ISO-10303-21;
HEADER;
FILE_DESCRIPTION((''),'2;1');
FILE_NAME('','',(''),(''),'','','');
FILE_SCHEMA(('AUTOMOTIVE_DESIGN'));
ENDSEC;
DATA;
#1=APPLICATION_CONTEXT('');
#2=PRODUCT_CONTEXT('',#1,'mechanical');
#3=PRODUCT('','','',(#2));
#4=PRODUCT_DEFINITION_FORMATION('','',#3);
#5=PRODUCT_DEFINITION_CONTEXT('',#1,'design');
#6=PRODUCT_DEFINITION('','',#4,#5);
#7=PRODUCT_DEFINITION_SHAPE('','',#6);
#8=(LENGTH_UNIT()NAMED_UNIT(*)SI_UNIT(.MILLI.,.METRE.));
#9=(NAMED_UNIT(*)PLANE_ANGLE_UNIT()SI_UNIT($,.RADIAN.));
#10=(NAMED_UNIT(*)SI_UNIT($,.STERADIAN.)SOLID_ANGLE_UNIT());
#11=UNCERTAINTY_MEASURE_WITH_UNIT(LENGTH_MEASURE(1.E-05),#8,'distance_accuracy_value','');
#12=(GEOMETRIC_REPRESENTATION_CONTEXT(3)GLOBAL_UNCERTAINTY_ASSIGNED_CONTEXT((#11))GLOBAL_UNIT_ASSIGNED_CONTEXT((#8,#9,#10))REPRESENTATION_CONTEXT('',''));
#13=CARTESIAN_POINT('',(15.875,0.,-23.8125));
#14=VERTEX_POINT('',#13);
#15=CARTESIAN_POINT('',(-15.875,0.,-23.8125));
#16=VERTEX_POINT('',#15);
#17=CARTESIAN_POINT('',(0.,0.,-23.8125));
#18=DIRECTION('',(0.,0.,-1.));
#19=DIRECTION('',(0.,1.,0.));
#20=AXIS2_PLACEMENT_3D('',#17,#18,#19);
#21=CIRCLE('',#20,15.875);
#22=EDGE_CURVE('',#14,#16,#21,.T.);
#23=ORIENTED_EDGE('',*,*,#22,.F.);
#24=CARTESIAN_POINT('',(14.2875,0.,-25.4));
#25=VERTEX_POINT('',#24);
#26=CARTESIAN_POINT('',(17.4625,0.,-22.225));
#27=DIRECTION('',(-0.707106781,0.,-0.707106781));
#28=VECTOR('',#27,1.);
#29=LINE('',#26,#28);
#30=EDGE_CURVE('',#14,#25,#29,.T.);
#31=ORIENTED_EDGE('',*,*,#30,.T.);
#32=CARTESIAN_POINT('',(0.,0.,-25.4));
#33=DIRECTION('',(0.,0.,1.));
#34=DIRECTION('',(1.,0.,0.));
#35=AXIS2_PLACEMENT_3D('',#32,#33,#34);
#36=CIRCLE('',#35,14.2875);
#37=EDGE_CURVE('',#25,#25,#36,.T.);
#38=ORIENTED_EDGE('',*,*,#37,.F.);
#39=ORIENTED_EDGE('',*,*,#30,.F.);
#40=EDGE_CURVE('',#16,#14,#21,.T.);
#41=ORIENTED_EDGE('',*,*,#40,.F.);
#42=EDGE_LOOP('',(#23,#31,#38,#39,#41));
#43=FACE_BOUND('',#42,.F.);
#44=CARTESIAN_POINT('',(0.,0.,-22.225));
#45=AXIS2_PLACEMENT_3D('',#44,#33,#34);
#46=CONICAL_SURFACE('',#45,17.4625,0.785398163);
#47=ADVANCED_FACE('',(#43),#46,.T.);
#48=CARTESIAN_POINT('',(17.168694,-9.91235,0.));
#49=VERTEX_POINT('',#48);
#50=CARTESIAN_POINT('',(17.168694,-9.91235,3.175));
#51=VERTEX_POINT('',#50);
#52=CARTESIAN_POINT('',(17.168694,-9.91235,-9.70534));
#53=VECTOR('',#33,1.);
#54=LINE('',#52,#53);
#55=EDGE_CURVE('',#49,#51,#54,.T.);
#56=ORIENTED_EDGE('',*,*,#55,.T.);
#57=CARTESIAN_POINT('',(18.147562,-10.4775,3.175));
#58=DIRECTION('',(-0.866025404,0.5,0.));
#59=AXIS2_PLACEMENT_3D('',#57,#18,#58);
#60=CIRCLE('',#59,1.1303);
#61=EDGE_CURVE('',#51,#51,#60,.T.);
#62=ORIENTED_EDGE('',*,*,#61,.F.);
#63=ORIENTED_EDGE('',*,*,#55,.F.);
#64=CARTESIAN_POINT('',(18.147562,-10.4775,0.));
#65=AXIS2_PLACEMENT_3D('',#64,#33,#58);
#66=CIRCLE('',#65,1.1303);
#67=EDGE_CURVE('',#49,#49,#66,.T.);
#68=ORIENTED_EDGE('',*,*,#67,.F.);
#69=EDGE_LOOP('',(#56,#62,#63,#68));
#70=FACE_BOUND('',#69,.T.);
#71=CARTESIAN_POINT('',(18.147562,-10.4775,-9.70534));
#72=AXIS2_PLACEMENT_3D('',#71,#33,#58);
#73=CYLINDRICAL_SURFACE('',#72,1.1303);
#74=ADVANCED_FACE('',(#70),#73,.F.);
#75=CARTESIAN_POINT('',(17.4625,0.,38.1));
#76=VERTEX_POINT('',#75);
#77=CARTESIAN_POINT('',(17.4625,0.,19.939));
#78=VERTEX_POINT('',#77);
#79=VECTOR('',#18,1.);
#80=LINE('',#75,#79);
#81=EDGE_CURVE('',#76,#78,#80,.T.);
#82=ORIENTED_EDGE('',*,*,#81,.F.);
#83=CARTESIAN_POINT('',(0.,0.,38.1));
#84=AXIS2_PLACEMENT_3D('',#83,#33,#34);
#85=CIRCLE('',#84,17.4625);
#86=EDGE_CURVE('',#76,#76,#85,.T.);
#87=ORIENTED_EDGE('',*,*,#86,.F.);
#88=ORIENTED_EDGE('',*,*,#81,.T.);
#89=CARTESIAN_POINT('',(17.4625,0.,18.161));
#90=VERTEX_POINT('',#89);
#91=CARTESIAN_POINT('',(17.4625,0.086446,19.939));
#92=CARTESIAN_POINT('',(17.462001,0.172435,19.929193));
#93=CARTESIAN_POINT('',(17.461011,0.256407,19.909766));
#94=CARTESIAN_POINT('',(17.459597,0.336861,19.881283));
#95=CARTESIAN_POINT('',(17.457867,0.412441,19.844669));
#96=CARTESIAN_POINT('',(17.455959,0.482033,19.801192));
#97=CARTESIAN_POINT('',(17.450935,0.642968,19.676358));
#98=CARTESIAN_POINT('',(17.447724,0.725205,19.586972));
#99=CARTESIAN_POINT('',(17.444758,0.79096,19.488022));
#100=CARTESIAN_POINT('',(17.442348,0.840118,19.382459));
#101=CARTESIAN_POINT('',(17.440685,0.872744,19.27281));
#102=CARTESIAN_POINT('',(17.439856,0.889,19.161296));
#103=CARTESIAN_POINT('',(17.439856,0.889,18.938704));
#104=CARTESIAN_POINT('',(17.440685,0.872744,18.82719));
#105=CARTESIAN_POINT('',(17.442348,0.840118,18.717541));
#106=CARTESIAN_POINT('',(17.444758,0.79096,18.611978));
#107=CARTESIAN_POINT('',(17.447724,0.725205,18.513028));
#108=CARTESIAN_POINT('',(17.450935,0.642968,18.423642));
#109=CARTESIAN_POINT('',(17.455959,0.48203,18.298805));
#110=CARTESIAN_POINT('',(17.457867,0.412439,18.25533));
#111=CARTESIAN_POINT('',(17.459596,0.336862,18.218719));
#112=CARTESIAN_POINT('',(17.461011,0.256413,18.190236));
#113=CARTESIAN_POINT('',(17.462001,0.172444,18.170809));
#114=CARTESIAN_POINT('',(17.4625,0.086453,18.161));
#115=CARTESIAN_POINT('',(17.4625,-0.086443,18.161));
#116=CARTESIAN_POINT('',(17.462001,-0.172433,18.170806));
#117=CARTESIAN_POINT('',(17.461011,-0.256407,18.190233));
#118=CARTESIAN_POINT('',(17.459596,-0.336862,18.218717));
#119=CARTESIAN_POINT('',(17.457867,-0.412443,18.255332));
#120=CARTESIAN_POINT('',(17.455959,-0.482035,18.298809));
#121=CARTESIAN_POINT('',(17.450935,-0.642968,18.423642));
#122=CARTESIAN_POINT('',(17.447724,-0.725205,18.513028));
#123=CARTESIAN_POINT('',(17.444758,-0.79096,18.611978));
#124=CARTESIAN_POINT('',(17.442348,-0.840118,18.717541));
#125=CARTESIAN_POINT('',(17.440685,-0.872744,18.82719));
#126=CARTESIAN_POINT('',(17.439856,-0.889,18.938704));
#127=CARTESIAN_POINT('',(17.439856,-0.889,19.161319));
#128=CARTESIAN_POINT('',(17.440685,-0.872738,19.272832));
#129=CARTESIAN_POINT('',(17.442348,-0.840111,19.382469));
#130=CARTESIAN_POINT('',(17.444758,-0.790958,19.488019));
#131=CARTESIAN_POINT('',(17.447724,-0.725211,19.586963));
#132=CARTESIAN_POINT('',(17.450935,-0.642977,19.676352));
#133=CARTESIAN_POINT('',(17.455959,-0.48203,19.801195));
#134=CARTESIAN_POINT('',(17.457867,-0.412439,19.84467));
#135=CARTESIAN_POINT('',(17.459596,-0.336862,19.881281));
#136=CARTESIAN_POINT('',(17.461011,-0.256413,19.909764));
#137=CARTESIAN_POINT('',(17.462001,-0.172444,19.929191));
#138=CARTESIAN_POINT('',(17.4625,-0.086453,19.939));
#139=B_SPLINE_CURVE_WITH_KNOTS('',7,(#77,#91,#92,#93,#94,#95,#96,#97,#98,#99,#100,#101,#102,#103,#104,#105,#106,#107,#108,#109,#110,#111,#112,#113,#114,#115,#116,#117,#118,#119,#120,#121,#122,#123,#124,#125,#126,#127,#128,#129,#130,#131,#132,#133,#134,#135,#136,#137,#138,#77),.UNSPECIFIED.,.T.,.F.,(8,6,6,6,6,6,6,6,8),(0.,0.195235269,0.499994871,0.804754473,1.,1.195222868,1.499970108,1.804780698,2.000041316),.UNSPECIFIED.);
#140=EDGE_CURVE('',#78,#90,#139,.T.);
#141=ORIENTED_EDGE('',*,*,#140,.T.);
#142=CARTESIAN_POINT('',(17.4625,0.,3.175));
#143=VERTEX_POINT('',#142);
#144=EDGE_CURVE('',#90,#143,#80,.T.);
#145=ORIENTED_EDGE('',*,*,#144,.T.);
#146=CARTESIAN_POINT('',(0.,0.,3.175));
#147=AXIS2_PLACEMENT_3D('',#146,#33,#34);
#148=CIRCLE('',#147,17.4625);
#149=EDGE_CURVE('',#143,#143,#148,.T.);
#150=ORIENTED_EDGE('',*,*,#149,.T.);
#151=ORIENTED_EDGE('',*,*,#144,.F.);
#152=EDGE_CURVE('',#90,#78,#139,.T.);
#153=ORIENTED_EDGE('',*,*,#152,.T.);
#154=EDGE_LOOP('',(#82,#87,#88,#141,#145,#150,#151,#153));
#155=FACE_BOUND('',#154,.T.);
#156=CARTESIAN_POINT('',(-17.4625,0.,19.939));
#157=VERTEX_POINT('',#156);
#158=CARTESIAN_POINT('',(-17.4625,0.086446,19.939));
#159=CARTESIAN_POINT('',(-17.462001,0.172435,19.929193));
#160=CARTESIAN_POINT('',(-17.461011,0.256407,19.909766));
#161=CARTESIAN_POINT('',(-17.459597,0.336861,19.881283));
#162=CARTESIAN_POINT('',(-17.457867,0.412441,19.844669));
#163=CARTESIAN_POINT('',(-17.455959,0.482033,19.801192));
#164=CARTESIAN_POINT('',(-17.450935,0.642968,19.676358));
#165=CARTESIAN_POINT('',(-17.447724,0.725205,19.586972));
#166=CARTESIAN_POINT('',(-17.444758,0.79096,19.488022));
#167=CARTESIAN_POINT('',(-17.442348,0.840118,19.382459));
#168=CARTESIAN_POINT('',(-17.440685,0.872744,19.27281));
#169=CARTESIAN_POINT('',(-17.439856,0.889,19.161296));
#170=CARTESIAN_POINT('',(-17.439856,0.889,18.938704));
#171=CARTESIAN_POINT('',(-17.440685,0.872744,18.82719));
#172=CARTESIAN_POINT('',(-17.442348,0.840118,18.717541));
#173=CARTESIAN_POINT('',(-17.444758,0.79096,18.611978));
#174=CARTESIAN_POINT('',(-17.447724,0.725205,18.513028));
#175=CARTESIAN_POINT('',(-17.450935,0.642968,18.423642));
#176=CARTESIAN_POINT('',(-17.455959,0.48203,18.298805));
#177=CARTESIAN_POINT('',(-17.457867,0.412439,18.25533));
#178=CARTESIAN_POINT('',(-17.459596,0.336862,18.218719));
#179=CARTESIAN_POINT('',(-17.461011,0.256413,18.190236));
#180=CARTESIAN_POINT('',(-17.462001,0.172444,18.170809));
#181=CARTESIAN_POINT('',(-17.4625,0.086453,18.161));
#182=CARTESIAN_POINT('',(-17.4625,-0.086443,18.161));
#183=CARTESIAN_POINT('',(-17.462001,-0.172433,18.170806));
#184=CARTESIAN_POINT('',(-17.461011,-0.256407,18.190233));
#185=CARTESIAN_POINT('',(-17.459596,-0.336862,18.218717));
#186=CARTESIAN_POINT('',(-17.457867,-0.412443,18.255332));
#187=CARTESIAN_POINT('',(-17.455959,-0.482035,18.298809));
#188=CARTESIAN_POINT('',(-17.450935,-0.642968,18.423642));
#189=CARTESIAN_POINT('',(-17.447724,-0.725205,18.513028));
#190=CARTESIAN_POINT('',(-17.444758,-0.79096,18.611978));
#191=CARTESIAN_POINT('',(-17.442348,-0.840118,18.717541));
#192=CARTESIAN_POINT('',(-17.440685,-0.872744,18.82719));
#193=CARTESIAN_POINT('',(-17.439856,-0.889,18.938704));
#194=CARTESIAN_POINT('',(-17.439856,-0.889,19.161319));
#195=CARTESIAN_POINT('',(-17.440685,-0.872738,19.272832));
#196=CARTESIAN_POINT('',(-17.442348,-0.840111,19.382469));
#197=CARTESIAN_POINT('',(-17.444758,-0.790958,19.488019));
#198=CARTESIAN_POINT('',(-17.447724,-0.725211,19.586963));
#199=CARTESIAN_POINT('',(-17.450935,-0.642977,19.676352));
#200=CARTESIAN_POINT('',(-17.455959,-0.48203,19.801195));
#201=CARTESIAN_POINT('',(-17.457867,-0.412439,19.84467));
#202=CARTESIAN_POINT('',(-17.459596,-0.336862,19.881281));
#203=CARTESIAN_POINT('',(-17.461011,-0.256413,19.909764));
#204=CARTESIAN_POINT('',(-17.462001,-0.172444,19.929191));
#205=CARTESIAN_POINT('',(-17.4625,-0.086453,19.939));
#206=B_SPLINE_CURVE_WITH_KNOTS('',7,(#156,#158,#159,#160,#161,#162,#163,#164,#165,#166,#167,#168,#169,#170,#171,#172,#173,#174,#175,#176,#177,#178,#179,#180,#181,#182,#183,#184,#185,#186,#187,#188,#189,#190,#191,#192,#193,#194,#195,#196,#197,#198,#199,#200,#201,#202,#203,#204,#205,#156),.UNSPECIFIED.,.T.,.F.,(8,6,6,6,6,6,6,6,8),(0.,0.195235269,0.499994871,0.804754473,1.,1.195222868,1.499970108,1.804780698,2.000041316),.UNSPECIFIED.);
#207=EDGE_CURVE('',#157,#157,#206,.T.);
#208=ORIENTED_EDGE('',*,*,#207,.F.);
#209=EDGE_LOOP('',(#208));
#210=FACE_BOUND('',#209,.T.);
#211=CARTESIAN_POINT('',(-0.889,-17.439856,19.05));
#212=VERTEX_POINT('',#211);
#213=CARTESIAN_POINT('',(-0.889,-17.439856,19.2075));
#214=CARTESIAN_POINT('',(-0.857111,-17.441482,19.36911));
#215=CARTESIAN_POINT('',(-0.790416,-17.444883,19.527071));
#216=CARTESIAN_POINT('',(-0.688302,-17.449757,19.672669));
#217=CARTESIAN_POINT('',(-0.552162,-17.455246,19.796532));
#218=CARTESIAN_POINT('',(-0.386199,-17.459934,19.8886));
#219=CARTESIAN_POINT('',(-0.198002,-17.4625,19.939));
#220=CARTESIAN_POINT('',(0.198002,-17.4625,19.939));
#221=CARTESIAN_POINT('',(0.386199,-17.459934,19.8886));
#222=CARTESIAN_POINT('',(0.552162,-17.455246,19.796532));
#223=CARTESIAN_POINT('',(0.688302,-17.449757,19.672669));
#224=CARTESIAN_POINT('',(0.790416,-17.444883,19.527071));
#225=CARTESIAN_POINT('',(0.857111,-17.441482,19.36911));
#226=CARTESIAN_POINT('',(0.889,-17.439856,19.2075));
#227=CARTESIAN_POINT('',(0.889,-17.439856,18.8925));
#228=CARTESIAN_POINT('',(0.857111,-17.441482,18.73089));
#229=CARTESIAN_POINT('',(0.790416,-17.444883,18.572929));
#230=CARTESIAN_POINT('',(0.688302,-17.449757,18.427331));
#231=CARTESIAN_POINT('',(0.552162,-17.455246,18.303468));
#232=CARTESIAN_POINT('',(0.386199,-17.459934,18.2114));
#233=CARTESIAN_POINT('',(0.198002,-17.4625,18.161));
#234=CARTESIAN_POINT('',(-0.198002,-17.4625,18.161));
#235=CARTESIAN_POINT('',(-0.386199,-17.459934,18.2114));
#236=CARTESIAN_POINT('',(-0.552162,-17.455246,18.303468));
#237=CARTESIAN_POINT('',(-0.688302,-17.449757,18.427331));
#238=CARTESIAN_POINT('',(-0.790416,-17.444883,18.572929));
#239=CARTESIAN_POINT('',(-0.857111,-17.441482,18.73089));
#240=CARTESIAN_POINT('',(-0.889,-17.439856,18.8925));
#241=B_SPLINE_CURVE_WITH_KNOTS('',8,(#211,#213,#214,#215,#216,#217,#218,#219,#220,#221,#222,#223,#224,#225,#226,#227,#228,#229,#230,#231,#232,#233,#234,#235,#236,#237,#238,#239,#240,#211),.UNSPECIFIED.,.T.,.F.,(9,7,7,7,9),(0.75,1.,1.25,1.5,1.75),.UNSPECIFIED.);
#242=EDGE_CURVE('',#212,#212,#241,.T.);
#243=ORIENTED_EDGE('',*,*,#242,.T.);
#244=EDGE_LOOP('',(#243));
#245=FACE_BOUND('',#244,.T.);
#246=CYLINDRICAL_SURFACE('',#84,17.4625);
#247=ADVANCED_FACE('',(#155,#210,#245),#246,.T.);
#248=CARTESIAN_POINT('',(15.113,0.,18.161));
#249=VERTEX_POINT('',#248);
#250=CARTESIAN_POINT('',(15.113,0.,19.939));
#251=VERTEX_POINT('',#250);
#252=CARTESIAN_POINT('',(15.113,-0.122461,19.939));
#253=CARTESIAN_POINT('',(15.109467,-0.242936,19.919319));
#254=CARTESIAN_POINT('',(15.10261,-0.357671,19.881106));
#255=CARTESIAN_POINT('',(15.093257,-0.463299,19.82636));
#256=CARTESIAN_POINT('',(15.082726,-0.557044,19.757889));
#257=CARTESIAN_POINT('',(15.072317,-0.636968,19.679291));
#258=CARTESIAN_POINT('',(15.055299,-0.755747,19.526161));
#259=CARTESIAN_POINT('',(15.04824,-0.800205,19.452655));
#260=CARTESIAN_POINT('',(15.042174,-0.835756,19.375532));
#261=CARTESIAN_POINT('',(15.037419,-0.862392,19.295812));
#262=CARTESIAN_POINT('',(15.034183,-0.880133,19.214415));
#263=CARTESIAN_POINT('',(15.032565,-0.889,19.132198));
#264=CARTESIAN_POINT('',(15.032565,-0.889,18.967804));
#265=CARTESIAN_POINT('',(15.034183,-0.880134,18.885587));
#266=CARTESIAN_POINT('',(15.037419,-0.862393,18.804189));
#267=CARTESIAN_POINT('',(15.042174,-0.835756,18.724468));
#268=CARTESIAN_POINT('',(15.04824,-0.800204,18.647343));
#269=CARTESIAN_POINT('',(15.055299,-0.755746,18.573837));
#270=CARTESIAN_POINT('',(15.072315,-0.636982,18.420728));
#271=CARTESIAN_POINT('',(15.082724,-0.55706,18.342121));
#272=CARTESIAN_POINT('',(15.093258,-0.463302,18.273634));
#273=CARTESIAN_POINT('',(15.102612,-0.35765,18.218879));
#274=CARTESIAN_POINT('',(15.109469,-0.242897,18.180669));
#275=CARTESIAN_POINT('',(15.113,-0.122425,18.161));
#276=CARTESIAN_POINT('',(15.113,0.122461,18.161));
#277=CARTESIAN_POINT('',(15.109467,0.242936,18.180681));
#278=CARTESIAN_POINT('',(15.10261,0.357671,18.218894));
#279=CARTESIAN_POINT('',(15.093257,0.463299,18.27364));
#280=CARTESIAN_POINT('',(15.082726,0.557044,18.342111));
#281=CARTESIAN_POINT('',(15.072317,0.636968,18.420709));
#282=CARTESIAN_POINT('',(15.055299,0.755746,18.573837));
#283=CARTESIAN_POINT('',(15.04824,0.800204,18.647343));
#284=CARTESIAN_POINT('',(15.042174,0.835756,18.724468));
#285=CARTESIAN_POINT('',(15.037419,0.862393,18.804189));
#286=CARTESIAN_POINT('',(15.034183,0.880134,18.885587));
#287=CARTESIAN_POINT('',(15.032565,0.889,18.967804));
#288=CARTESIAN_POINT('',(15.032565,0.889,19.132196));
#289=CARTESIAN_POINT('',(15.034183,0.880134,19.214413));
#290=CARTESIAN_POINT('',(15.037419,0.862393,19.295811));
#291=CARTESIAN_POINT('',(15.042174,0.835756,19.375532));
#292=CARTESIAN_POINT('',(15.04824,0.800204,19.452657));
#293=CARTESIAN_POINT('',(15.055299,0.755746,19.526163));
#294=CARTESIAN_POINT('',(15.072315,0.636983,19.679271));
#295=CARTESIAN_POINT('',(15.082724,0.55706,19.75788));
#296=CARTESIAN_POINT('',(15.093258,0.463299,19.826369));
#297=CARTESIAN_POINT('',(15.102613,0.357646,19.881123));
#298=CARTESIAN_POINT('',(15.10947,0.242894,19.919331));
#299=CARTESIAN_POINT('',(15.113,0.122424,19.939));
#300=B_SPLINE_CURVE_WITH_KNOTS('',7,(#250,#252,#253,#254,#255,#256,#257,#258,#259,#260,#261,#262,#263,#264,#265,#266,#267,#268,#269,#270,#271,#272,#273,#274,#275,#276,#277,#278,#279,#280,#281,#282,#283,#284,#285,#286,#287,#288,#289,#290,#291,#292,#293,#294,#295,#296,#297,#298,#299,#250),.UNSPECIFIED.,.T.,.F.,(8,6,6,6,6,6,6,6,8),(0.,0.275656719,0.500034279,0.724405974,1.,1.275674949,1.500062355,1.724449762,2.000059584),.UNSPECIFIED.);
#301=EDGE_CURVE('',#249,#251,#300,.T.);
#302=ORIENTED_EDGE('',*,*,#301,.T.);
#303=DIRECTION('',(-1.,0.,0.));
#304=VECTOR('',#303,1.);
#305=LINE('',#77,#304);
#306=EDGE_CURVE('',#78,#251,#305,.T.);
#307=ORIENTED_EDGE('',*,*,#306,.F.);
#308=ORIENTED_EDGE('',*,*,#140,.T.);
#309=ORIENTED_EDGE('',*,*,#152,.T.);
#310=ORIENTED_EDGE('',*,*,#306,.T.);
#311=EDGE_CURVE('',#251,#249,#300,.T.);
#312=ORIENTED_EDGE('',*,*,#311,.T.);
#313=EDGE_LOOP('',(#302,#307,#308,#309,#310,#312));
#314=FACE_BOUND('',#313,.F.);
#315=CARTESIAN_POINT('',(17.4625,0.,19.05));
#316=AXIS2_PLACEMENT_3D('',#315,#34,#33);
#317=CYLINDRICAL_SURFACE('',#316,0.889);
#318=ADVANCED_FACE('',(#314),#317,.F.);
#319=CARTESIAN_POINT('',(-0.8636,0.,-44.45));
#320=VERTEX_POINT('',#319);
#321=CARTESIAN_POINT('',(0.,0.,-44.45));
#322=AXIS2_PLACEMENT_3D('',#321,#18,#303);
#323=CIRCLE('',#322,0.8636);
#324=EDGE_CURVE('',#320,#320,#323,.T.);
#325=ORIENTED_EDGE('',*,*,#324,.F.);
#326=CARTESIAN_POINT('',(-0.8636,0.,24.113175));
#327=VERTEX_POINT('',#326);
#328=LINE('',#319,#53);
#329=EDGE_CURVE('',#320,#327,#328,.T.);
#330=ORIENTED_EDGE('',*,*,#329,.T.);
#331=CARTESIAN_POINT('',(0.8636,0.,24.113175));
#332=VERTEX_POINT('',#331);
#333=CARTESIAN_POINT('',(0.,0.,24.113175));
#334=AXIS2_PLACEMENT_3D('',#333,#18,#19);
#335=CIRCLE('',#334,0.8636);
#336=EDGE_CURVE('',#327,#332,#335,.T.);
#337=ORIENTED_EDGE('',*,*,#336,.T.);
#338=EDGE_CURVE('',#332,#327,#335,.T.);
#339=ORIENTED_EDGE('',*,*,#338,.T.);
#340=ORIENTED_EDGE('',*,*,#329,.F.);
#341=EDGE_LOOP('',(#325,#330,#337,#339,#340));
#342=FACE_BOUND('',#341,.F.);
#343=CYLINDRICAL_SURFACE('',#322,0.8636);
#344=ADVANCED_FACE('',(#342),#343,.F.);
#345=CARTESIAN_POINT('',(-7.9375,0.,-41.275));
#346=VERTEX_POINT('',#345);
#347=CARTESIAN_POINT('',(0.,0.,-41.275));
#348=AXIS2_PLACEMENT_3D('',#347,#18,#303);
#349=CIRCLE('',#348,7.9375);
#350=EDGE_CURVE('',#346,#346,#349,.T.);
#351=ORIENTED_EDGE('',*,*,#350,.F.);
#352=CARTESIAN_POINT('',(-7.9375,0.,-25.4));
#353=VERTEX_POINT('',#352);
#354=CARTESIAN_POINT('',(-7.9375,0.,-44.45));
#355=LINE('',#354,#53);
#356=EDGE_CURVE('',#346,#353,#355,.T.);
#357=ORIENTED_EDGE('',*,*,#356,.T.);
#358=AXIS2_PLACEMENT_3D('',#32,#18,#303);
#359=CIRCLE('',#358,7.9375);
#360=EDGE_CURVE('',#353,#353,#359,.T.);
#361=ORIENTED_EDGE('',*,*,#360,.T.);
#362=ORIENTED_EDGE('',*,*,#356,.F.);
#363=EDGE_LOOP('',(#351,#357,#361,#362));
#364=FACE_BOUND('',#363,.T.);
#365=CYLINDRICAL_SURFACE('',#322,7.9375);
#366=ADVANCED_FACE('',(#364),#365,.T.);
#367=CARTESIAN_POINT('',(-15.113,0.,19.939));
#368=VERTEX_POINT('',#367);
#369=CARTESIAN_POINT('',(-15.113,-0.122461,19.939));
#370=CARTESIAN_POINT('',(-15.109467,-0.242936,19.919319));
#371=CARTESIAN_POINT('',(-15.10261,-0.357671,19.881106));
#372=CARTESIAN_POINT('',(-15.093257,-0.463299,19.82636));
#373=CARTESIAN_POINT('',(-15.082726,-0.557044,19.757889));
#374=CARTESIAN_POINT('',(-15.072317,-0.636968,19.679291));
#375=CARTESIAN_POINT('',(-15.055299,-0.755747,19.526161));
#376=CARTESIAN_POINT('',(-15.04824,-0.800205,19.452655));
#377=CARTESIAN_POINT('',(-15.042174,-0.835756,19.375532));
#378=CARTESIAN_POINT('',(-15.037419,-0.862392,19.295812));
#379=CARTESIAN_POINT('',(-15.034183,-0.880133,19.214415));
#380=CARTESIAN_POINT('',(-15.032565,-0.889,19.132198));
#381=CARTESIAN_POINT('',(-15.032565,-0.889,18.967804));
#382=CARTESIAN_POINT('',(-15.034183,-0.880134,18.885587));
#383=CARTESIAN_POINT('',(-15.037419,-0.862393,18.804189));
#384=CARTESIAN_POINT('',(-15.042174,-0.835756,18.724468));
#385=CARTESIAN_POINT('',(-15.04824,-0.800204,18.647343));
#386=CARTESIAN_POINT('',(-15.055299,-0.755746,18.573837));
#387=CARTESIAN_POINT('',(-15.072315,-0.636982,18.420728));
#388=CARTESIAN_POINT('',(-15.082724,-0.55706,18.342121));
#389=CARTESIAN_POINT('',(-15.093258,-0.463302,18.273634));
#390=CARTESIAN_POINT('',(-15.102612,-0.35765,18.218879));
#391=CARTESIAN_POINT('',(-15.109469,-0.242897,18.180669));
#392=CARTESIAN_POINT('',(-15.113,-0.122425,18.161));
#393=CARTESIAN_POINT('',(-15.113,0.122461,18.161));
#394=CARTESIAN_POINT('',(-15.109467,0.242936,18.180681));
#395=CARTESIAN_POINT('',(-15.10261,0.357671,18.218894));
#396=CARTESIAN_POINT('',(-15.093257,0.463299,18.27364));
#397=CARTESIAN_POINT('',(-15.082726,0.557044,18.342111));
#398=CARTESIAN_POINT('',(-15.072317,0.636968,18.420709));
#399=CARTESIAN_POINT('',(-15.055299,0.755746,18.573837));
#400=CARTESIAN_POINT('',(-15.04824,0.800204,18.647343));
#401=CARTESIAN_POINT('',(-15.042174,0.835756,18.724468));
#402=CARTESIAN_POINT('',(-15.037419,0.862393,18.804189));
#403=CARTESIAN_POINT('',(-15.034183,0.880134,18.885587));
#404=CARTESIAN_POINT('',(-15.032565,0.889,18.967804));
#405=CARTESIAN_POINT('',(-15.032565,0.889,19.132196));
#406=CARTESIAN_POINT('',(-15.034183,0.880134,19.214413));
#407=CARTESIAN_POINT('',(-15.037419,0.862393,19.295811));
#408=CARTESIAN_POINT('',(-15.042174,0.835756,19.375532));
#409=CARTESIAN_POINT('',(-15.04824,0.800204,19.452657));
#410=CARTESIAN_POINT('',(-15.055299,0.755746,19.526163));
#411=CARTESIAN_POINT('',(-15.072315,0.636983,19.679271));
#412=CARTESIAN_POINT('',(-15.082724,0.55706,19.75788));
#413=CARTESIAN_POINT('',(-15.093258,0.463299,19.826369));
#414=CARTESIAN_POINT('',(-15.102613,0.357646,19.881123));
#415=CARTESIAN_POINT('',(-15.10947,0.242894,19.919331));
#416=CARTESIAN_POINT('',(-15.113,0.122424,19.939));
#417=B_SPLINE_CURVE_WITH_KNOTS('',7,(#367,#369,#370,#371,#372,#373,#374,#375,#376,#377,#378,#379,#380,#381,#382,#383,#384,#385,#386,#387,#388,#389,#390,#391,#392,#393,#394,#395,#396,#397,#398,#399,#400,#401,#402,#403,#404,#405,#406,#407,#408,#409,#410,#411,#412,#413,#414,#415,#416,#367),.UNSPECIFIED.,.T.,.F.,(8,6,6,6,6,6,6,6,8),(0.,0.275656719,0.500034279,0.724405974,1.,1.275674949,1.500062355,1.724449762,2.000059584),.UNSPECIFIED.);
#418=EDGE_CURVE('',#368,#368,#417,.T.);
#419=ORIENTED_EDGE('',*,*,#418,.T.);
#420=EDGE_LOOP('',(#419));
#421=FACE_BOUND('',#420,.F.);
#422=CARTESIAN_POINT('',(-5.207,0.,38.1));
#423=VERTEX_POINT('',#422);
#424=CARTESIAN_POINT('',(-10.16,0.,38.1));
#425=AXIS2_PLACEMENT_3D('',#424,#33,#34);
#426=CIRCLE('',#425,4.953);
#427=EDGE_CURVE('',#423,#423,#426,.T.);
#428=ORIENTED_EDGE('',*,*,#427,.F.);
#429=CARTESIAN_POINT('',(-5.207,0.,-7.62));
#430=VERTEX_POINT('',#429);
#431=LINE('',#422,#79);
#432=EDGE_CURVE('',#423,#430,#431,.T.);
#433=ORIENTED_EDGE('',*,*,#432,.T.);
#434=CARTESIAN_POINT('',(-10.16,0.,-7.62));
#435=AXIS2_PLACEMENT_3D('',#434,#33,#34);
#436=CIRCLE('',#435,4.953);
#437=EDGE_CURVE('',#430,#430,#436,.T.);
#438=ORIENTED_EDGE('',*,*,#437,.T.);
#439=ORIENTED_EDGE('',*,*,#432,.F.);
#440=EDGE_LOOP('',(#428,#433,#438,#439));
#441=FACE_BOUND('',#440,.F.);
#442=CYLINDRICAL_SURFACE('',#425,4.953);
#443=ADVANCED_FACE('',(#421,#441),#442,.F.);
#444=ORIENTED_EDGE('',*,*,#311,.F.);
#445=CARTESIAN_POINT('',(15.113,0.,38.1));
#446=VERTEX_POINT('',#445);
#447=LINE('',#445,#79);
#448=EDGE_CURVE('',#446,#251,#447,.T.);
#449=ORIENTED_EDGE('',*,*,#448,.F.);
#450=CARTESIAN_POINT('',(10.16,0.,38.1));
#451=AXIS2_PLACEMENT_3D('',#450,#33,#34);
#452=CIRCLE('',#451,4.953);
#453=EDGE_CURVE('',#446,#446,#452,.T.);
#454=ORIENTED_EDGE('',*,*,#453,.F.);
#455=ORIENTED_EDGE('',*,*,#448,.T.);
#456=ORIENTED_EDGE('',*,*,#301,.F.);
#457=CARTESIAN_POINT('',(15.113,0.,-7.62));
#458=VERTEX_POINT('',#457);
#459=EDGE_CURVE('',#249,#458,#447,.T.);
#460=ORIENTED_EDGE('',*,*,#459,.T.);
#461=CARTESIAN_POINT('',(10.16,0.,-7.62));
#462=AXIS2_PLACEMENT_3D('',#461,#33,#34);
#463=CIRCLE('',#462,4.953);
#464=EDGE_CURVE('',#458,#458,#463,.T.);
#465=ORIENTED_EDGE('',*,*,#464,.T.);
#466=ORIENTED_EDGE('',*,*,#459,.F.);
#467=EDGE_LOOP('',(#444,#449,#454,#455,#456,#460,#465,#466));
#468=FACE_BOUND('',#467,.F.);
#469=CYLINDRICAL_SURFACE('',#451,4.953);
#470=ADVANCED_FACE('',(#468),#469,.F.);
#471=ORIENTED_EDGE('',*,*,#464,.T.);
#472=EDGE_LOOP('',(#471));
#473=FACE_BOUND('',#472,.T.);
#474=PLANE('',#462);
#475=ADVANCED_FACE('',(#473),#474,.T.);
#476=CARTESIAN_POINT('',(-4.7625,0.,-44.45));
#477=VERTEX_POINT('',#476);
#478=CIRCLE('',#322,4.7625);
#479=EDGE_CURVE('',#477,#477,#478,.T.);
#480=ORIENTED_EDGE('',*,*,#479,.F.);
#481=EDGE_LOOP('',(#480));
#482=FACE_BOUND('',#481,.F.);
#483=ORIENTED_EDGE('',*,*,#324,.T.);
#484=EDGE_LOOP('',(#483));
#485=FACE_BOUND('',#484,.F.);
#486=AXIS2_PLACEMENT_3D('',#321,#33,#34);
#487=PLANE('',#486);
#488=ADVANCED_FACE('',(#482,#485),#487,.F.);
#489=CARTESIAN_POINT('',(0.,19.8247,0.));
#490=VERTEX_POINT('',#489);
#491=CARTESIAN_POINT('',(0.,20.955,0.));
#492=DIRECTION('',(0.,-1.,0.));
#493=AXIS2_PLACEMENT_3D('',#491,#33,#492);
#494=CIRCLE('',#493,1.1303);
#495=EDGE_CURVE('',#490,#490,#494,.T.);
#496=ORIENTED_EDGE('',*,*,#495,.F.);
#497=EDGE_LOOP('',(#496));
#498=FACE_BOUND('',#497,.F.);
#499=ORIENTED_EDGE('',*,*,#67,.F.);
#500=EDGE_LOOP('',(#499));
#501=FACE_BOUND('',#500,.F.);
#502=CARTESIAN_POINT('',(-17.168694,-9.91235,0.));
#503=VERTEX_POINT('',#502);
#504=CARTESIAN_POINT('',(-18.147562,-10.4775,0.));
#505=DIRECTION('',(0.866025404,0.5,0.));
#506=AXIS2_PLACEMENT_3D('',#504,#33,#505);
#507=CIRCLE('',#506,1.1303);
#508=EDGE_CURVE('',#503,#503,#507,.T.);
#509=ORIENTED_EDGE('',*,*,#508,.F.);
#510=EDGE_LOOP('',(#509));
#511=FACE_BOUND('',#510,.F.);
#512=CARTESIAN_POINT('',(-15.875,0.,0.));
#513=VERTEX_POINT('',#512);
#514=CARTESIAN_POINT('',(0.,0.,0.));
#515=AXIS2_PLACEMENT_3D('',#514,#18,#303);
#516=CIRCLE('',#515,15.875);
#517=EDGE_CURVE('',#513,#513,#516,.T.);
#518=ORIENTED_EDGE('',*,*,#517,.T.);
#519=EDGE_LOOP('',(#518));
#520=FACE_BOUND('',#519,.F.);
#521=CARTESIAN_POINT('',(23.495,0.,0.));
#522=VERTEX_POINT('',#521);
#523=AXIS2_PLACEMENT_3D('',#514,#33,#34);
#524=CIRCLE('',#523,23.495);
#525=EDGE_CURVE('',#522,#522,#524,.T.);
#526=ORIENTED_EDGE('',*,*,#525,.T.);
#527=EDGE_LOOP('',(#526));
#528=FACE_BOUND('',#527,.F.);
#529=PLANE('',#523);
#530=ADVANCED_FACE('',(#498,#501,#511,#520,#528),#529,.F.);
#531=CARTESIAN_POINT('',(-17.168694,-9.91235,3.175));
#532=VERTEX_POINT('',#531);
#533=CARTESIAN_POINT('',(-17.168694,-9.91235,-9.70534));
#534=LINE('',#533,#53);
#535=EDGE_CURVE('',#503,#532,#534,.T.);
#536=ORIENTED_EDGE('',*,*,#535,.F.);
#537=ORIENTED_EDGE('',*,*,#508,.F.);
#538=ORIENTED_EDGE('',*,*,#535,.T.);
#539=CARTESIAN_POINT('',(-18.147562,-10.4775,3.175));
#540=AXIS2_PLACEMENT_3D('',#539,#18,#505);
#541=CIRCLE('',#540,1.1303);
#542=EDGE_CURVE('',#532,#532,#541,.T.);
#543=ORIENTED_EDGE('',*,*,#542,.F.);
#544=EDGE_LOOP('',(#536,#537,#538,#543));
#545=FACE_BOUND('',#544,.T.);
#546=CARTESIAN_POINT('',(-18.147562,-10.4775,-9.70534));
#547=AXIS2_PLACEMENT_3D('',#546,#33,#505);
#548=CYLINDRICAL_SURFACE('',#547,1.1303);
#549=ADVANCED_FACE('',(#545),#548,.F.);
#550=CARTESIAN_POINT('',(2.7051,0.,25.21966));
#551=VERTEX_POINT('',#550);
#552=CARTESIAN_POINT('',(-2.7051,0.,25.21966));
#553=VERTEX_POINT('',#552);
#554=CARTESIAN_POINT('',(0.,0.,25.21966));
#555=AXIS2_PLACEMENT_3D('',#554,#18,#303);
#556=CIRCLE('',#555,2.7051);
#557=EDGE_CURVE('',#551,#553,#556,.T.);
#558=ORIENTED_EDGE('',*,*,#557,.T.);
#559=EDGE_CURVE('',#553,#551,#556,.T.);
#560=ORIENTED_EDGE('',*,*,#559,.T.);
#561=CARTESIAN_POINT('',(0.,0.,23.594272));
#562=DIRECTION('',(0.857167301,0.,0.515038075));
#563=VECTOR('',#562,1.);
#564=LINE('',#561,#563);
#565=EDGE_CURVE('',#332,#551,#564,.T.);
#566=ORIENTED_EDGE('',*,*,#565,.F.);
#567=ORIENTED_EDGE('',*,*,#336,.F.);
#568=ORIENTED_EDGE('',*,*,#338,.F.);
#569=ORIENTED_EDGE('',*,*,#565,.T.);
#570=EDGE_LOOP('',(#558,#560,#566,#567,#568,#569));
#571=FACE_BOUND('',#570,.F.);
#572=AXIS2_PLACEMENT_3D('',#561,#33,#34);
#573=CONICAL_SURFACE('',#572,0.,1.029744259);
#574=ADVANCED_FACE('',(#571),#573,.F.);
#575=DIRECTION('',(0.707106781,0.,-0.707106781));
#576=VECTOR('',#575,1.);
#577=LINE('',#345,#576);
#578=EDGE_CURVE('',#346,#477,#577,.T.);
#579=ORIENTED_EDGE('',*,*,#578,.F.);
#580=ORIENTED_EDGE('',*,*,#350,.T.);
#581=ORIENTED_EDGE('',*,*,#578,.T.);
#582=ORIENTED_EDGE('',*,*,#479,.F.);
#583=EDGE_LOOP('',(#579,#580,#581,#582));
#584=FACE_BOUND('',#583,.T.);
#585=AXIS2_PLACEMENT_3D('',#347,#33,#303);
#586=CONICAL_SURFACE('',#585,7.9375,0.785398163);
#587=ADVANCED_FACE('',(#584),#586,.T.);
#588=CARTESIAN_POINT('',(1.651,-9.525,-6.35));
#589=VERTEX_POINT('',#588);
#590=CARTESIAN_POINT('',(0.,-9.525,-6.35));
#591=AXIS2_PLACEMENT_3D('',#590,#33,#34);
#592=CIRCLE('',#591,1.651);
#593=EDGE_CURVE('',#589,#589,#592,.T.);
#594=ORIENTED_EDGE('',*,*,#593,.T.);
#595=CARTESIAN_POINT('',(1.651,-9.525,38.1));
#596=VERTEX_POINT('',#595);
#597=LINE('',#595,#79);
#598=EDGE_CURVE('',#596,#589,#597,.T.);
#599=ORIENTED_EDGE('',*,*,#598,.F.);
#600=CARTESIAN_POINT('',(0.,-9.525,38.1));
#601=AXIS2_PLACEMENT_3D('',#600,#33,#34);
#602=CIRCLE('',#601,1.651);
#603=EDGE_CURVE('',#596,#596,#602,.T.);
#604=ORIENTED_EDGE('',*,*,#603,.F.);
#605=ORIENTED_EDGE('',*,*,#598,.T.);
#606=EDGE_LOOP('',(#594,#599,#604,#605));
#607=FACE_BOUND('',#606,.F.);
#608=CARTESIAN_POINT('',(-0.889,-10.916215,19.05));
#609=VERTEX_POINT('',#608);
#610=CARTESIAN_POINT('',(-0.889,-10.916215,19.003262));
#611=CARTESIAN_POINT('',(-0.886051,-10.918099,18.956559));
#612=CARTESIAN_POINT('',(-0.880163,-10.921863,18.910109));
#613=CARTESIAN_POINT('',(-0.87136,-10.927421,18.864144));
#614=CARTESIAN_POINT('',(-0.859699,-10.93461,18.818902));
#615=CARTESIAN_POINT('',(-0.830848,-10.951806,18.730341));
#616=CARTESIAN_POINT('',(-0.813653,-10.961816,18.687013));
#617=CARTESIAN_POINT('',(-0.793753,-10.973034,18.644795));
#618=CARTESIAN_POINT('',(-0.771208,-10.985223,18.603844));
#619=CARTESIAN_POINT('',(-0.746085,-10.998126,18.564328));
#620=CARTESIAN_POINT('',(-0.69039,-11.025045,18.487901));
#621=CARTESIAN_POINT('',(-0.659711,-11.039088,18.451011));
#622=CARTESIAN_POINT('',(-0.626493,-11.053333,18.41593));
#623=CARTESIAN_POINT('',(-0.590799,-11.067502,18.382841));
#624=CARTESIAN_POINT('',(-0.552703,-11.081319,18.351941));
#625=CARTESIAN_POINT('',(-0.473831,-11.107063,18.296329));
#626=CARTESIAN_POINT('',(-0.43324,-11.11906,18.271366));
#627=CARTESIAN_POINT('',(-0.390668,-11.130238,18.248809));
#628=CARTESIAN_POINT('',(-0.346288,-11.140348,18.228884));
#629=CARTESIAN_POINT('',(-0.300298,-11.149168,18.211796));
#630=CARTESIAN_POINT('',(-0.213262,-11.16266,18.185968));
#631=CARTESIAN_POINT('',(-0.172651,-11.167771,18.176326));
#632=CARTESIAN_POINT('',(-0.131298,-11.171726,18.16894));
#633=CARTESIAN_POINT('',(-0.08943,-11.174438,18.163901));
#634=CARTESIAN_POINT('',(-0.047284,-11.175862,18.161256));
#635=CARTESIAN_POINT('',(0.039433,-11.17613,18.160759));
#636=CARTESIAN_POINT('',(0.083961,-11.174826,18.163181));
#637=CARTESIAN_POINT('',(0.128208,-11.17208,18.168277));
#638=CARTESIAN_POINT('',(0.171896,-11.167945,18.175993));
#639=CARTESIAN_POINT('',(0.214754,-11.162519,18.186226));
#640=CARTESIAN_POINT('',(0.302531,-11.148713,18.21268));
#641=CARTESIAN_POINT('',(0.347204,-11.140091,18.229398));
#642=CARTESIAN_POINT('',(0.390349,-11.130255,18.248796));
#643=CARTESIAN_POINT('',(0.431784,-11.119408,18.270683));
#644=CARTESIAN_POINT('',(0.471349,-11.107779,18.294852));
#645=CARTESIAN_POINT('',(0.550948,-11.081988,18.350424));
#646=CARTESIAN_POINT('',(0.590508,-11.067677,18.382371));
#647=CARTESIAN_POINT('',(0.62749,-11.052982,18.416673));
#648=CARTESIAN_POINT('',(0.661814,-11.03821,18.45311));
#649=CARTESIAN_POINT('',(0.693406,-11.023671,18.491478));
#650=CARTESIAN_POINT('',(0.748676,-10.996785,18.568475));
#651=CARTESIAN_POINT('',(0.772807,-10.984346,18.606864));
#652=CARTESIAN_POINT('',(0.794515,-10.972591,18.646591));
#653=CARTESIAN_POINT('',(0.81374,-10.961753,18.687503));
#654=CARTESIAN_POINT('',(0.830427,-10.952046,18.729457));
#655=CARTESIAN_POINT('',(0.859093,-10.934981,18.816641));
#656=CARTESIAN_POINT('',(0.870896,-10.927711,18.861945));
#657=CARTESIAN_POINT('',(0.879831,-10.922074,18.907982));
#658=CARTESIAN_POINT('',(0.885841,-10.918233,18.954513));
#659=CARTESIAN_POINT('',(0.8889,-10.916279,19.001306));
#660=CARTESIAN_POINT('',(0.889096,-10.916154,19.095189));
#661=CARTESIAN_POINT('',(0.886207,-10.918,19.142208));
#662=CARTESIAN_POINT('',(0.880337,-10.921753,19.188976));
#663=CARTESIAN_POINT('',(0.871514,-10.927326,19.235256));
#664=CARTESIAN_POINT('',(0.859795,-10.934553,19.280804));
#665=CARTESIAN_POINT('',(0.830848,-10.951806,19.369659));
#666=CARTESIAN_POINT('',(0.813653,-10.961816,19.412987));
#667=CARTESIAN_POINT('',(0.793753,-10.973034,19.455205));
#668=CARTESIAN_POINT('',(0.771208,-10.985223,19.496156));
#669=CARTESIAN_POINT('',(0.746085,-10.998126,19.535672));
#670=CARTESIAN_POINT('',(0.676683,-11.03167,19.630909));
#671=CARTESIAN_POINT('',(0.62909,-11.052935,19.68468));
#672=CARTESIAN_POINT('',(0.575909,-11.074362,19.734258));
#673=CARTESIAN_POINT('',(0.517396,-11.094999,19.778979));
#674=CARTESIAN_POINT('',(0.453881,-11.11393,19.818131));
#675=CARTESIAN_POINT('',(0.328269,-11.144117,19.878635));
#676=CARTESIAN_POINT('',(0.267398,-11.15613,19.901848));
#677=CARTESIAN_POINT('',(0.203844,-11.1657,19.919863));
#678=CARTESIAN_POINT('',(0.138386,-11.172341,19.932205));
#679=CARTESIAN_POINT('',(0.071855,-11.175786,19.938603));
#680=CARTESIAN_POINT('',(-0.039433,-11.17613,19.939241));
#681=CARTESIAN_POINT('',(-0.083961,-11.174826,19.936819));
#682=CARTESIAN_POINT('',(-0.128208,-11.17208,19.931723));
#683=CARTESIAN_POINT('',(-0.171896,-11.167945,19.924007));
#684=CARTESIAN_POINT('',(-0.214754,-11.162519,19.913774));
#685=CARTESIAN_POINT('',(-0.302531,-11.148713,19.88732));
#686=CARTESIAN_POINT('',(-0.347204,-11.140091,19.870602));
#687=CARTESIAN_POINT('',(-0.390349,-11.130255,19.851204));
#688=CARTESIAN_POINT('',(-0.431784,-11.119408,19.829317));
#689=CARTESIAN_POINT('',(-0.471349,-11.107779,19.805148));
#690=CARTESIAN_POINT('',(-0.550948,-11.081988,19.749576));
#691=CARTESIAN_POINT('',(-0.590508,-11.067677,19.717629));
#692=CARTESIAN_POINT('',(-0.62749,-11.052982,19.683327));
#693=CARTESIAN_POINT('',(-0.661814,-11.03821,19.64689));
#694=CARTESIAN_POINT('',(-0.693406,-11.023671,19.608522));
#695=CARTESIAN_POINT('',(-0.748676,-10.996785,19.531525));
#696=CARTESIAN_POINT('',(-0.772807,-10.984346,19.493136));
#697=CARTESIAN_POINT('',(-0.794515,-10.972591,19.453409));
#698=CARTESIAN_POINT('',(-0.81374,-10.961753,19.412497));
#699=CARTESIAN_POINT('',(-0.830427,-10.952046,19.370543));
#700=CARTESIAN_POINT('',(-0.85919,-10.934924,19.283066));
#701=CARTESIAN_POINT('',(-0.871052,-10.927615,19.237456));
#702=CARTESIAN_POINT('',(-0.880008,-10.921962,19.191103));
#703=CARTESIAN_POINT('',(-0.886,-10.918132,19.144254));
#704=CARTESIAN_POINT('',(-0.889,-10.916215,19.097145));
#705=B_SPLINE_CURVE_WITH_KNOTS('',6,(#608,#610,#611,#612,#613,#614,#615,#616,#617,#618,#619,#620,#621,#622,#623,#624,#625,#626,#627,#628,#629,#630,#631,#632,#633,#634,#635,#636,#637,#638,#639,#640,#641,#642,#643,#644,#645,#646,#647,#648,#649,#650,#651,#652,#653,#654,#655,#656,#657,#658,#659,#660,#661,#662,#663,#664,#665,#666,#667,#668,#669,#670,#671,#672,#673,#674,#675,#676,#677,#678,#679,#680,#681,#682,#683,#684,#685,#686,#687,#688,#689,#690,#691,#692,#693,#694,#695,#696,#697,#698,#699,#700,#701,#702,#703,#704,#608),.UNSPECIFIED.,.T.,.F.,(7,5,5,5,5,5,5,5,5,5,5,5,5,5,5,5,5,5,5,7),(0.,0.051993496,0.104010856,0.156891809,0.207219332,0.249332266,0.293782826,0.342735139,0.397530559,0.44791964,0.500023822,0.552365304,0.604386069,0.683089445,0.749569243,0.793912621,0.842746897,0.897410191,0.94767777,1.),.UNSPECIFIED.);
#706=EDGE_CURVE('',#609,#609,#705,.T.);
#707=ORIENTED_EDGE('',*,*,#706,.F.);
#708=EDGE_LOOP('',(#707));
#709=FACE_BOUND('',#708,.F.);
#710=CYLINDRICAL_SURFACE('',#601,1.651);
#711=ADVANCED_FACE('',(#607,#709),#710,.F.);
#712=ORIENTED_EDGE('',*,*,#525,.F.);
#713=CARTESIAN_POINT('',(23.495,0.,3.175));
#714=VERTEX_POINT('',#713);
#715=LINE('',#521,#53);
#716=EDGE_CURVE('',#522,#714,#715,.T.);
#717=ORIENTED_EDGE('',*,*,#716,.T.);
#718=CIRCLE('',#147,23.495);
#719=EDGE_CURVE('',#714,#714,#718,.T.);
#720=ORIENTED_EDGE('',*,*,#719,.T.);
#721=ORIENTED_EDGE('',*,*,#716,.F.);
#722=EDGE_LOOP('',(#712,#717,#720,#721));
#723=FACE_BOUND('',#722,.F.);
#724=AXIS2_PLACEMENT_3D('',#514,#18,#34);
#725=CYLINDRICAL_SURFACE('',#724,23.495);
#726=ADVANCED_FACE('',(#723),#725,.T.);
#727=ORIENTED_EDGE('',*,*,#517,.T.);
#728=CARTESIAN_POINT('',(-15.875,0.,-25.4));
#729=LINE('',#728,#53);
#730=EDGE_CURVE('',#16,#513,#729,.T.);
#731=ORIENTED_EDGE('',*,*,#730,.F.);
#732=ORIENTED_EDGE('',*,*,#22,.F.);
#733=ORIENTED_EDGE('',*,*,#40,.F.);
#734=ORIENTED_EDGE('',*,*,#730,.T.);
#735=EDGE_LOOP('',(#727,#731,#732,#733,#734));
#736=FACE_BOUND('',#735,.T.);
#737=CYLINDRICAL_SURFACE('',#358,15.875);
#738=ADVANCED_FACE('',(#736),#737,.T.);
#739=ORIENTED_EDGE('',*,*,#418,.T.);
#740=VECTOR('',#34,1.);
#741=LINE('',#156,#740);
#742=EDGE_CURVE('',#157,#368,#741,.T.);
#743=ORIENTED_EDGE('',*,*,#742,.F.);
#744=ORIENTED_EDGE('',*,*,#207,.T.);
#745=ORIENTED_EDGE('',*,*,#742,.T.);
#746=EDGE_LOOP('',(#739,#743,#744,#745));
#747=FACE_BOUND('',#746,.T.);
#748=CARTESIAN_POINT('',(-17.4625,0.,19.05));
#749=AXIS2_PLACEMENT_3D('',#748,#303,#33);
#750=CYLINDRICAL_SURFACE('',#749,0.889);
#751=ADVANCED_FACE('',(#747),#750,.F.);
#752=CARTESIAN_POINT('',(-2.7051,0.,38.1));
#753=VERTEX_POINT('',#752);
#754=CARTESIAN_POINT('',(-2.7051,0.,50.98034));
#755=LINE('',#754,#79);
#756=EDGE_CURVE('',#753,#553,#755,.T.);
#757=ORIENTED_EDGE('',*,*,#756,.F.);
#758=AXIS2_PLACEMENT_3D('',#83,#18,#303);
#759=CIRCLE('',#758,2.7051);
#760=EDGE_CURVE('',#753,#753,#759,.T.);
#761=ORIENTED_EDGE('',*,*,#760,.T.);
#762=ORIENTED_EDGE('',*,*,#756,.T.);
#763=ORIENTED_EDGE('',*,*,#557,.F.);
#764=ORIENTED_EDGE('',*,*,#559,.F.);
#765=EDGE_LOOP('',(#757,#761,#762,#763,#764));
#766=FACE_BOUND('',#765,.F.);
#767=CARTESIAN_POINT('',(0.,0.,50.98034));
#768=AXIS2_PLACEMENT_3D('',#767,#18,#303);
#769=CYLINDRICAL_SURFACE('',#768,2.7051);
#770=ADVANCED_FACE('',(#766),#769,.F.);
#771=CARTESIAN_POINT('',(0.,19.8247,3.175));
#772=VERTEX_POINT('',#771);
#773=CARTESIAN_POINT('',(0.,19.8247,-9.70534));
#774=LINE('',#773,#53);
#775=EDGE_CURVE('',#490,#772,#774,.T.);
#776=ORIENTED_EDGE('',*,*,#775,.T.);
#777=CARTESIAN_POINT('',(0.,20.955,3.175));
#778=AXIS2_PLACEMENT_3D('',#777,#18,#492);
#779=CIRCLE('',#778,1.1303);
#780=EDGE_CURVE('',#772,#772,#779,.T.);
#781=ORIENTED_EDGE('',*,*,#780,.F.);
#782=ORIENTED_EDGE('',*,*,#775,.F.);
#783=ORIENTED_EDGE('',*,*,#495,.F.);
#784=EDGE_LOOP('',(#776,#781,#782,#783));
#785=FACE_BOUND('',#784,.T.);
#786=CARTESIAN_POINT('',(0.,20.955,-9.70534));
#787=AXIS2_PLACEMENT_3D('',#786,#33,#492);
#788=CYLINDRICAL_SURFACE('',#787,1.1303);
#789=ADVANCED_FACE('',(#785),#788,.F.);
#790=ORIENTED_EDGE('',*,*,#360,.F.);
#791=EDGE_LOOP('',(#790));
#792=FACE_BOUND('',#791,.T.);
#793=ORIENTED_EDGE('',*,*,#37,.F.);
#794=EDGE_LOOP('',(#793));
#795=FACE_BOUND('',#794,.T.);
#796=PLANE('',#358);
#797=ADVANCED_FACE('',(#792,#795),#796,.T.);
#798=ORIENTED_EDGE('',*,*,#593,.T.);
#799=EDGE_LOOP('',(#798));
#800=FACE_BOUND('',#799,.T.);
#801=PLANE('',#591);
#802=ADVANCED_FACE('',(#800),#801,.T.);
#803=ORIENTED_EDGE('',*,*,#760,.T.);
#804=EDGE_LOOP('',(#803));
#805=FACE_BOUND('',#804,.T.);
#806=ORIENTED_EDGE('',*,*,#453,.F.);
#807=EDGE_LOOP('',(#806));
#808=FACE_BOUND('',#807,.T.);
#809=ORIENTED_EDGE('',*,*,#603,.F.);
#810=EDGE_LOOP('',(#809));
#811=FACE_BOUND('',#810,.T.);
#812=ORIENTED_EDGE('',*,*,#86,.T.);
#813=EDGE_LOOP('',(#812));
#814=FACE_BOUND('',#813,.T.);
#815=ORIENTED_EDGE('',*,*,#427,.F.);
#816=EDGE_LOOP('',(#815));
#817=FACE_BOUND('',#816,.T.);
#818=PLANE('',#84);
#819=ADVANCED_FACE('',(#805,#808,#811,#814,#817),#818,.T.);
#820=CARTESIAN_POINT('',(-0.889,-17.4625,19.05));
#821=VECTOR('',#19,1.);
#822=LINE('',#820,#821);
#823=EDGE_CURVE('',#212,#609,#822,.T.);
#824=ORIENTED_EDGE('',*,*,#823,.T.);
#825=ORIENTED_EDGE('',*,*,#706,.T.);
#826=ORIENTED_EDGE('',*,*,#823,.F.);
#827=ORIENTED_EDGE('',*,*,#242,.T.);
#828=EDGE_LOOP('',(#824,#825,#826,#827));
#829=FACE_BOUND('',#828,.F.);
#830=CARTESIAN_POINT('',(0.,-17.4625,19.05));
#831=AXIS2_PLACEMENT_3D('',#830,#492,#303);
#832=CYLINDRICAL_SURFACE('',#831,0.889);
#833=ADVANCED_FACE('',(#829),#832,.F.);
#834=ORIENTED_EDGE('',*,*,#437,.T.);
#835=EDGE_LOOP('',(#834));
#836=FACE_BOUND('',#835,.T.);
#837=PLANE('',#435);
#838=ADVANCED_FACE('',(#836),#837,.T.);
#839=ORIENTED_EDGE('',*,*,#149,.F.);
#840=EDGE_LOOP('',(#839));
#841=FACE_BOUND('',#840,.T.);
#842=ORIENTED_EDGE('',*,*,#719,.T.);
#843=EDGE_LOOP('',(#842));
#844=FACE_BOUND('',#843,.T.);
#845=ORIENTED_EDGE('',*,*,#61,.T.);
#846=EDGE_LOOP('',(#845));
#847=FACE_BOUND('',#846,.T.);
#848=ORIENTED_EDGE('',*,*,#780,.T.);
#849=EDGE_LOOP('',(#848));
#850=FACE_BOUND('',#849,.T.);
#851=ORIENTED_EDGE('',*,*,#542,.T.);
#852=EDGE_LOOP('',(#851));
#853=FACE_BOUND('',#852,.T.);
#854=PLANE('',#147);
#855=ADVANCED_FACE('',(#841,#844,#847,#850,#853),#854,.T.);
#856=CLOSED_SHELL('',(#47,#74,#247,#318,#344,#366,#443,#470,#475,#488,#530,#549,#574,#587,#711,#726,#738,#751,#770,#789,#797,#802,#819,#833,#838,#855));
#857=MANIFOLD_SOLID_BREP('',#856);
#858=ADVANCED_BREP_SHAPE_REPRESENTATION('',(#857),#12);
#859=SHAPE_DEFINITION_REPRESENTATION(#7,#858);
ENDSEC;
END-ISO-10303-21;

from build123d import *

# Parameters (mm, degrees)
SKETCH1_R                   = 25.4
BOSS_EXTRUDE1_DEPTH         = 38.1
BOSS_EXTRUDE1_DEPTH_BACK    = 44.45
SKETCH2_OUTSIDE_W           = 74.686
SKETCH2_OUTSIDE_H           = 74.686
SKETCH2_OUTSIDE_R           = 17.4625
CUT_EXTRUDE3_DEPTH          = 63.5
SKETCH3_R                   = 23.495
BOSS_EXTRUDE2_DEPTH         = 3.175
F_1_4_28_TAPPED_HOLE1_D     = 5.4102
F_1_4_28_TAPPED_HOLE1_DEPTH = 12.88034
F_1_4_28_TAPPED_HOLE1_TIP   = 1.625388061
SKETCH9_R                   = 0.8636
CUT_EXTRUDE4_DEPTH          = 91.02678768
SKETCH12_R                  = 4.953
CUT_EXTRUDE5_DEPTH          = 45.72
SKETCH17_R                  = 1.651
CUT_EXTRUDE7_DEPTH          = 44.45
SKETCH22_OUTSIDE_W          = 74.686
SKETCH22_OUTSIDE_H          = 74.686
SKETCH22_OUTSIDE_R          = 7.9375
CUT_EXTRUDE9_DEPTH          = 19.05
CHAMFER1_SIZE               = 3.175
F_2_56_TAPPED_HOLE3_REACH   = 81.131
F_2_56_TAPPED_HOLE3_BORE_R  = 0.889
F_2_56_TAPPED_HOLE4_REACH   = 81.131
F_2_56_TAPPED_HOLE4_BORE_R  = 0.889
CIRPATTERN1_COUNT           = 3
SKETCH25_OUTSIDE_W          = 70.184
SKETCH25_OUTSIDE_H          = 70.184
SKETCH25_OUTSIDE_R          = 15.875
CUT_EXTRUDE10_DEPTH         = 25.4


with BuildPart() as part:
    # Sketch1 → Boss-Extrude1 (new, two sides)
    with BuildSketch(Plane.XY) as boss_extrude1_sk:
        Circle(SKETCH1_R)
    extrude(amount=BOSS_EXTRUDE1_DEPTH)
    extrude(boss_extrude1_sk.sketch, amount=-BOSS_EXTRUDE1_DEPTH_BACK)

    # Sketch2 outside → Cut-Extrude3 (cut)
    with BuildSketch(Plane.XY.offset(38.1)):
        Rectangle(SKETCH2_OUTSIDE_W, SKETCH2_OUTSIDE_H)
        Circle(SKETCH2_OUTSIDE_R, mode=Mode.SUBTRACT)
    extrude(amount=-CUT_EXTRUDE3_DEPTH, mode=Mode.SUBTRACT)

    # Sketch3 → Boss-Extrude2 (add)
    with BuildSketch(Plane.XY):
        Circle(SKETCH3_R)
    extrude(amount=BOSS_EXTRUDE2_DEPTH)

    # 1/4-28 Tapped Hole1
    with Locations(Plane.XY.offset(38.1)):
        with Locations((0, 0)):
            Hole(F_1_4_28_TAPPED_HOLE1_D / 2, depth=F_1_4_28_TAPPED_HOLE1_DEPTH)
            with Locations((0, 0, -(F_1_4_28_TAPPED_HOLE1_DEPTH + F_1_4_28_TAPPED_HOLE1_TIP / 2))):  # 118° drill point
                Cone(0, F_1_4_28_TAPPED_HOLE1_D / 2, F_1_4_28_TAPPED_HOLE1_TIP, mode=Mode.SUBTRACT)

    # Sketch6 → #2 Clearance Hole1 (revolve, cut)
    with BuildSketch(Plane(origin=(0, 20.955, 3.175), x_dir=(0, -1, 0), z_dir=(1, 0, 0))):
        Polygon((0, 0), (0, 13.559492758), (1.1303, 12.88034), (1.1303, 0), align=None)
    f_2_clearance_hole1 = revolve(axis=Axis((0, 20.955, 9.525), (0, 0, -1)), mode=Mode.SUBTRACT)

    # Sketch9 → Cut-Extrude4 (cut, through all)
    with BuildSketch(Plane(origin=(0, 0, -44.45), x_dir=(-1, 0, 0), z_dir=(0, 0, -1))):
        Circle(SKETCH9_R)
    extrude(amount=-CUT_EXTRUDE4_DEPTH, mode=Mode.SUBTRACT)

    # Sketch12 → Cut-Extrude5 (cut)
    with BuildSketch(Plane.XY.offset(38.1)):
        with Locations((-10.16, 0)):
            Circle(SKETCH12_R)
        with Locations((10.16, 0)):
            Circle(SKETCH12_R)
    extrude(amount=-CUT_EXTRUDE5_DEPTH, mode=Mode.SUBTRACT)

    # Sketch17 → Cut-Extrude7 (cut)
    with BuildSketch(Plane.XY.offset(38.1)):
        with Locations((0, -9.525)):
            Circle(SKETCH17_R)
    extrude(amount=-CUT_EXTRUDE7_DEPTH, mode=Mode.SUBTRACT)

    # Sketch22 outside → Cut-Extrude9 (cut)
    with BuildSketch(Plane(origin=(0, 0, -44.45), x_dir=(-1, 0, 0), z_dir=(0, 0, -1))):
        Rectangle(SKETCH22_OUTSIDE_W, SKETCH22_OUTSIDE_H)
        Circle(SKETCH22_OUTSIDE_R, mode=Mode.SUBTRACT)
    extrude(amount=-CUT_EXTRUDE9_DEPTH, mode=Mode.SUBTRACT)

    # Chamfer1
    chamfer1_edges = [part.edges().sort_by_distance(p)[0] for p in [
        (-17.4625, 0, -25.4),
        (7.9375, 0, -44.45),
    ]]
    chamfer(chamfer1_edges, length=CHAMFER1_SIZE)

    # #2-56 Tapped Hole3 bore (on position points) → #2-56 Tapped Hole3 (cut, up to next)
    with BuildSketch(Plane(origin=(0, -17.4625, 19.05), x_dir=(-1, 0, 0), z_dir=(0, -1, 0)), mode=Mode.PRIVATE) as f_2_56_tapped_hole3_sk1:
        Circle(F_2_56_TAPPED_HOLE3_BORE_R)
    f_2_56_tapped_hole3_tool1 = extrude(f_2_56_tapped_hole3_sk1.sketch, amount=-F_2_56_TAPPED_HOLE3_REACH, mode=Mode.PRIVATE) & part.part
    add(f_2_56_tapped_hole3_tool1.solids().sort_by_distance((0, -17.4625, 19.05))[0], mode=Mode.SUBTRACT)

    # #2-56 Tapped Hole4 bore (on position points) → #2-56 Tapped Hole4 (cut, up to next)
    with BuildSketch(Plane(origin=(17.4625, 0, 19.05), x_dir=(0, 0, 1), z_dir=(1, 0, 0)), mode=Mode.PRIVATE) as f_2_56_tapped_hole4_sk1:
        Circle(F_2_56_TAPPED_HOLE4_BORE_R)
    f_2_56_tapped_hole4_tool1 = extrude(f_2_56_tapped_hole4_sk1.sketch, amount=-F_2_56_TAPPED_HOLE4_REACH, mode=Mode.PRIVATE) & part.part
    f_2_56_tapped_hole4 = f_2_56_tapped_hole4_tool1.solids().sort_by_distance((17.4625, 0, 19.05))[0]
    add(f_2_56_tapped_hole4, mode=Mode.SUBTRACT)

    # Mirror2: #2-56 Tapped Hole4 across plane
    add(f_2_56_tapped_hole4.mirror(Plane(origin=(0, 0, 0), x_dir=(0, 0, 1), z_dir=(1, 0, 0))), mode=Mode.SUBTRACT)

    # CirPattern1: #2 Clearance Hole1 ×3 about axis
    cirpattern1_axis = Axis((0, 0, 0), (0, 0, 1))
    for i in range(1, CIRPATTERN1_COUNT):
        add(f_2_clearance_hole1.rotate(cirpattern1_axis, i * 360 / CIRPATTERN1_COUNT), mode=Mode.SUBTRACT)

    # Sketch25 outside → Cut-Extrude10 (cut)
    with BuildSketch(Plane(origin=(0, 0, -25.4), x_dir=(-1, 0, 0), z_dir=(0, 0, -1))):
        Rectangle(SKETCH25_OUTSIDE_W, SKETCH25_OUTSIDE_H)
        Circle(SKETCH25_OUTSIDE_R, mode=Mode.SUBTRACT)
    extrude(amount=-CUT_EXTRUDE10_DEPTH, mode=Mode.SUBTRACT)


solid = part.part
